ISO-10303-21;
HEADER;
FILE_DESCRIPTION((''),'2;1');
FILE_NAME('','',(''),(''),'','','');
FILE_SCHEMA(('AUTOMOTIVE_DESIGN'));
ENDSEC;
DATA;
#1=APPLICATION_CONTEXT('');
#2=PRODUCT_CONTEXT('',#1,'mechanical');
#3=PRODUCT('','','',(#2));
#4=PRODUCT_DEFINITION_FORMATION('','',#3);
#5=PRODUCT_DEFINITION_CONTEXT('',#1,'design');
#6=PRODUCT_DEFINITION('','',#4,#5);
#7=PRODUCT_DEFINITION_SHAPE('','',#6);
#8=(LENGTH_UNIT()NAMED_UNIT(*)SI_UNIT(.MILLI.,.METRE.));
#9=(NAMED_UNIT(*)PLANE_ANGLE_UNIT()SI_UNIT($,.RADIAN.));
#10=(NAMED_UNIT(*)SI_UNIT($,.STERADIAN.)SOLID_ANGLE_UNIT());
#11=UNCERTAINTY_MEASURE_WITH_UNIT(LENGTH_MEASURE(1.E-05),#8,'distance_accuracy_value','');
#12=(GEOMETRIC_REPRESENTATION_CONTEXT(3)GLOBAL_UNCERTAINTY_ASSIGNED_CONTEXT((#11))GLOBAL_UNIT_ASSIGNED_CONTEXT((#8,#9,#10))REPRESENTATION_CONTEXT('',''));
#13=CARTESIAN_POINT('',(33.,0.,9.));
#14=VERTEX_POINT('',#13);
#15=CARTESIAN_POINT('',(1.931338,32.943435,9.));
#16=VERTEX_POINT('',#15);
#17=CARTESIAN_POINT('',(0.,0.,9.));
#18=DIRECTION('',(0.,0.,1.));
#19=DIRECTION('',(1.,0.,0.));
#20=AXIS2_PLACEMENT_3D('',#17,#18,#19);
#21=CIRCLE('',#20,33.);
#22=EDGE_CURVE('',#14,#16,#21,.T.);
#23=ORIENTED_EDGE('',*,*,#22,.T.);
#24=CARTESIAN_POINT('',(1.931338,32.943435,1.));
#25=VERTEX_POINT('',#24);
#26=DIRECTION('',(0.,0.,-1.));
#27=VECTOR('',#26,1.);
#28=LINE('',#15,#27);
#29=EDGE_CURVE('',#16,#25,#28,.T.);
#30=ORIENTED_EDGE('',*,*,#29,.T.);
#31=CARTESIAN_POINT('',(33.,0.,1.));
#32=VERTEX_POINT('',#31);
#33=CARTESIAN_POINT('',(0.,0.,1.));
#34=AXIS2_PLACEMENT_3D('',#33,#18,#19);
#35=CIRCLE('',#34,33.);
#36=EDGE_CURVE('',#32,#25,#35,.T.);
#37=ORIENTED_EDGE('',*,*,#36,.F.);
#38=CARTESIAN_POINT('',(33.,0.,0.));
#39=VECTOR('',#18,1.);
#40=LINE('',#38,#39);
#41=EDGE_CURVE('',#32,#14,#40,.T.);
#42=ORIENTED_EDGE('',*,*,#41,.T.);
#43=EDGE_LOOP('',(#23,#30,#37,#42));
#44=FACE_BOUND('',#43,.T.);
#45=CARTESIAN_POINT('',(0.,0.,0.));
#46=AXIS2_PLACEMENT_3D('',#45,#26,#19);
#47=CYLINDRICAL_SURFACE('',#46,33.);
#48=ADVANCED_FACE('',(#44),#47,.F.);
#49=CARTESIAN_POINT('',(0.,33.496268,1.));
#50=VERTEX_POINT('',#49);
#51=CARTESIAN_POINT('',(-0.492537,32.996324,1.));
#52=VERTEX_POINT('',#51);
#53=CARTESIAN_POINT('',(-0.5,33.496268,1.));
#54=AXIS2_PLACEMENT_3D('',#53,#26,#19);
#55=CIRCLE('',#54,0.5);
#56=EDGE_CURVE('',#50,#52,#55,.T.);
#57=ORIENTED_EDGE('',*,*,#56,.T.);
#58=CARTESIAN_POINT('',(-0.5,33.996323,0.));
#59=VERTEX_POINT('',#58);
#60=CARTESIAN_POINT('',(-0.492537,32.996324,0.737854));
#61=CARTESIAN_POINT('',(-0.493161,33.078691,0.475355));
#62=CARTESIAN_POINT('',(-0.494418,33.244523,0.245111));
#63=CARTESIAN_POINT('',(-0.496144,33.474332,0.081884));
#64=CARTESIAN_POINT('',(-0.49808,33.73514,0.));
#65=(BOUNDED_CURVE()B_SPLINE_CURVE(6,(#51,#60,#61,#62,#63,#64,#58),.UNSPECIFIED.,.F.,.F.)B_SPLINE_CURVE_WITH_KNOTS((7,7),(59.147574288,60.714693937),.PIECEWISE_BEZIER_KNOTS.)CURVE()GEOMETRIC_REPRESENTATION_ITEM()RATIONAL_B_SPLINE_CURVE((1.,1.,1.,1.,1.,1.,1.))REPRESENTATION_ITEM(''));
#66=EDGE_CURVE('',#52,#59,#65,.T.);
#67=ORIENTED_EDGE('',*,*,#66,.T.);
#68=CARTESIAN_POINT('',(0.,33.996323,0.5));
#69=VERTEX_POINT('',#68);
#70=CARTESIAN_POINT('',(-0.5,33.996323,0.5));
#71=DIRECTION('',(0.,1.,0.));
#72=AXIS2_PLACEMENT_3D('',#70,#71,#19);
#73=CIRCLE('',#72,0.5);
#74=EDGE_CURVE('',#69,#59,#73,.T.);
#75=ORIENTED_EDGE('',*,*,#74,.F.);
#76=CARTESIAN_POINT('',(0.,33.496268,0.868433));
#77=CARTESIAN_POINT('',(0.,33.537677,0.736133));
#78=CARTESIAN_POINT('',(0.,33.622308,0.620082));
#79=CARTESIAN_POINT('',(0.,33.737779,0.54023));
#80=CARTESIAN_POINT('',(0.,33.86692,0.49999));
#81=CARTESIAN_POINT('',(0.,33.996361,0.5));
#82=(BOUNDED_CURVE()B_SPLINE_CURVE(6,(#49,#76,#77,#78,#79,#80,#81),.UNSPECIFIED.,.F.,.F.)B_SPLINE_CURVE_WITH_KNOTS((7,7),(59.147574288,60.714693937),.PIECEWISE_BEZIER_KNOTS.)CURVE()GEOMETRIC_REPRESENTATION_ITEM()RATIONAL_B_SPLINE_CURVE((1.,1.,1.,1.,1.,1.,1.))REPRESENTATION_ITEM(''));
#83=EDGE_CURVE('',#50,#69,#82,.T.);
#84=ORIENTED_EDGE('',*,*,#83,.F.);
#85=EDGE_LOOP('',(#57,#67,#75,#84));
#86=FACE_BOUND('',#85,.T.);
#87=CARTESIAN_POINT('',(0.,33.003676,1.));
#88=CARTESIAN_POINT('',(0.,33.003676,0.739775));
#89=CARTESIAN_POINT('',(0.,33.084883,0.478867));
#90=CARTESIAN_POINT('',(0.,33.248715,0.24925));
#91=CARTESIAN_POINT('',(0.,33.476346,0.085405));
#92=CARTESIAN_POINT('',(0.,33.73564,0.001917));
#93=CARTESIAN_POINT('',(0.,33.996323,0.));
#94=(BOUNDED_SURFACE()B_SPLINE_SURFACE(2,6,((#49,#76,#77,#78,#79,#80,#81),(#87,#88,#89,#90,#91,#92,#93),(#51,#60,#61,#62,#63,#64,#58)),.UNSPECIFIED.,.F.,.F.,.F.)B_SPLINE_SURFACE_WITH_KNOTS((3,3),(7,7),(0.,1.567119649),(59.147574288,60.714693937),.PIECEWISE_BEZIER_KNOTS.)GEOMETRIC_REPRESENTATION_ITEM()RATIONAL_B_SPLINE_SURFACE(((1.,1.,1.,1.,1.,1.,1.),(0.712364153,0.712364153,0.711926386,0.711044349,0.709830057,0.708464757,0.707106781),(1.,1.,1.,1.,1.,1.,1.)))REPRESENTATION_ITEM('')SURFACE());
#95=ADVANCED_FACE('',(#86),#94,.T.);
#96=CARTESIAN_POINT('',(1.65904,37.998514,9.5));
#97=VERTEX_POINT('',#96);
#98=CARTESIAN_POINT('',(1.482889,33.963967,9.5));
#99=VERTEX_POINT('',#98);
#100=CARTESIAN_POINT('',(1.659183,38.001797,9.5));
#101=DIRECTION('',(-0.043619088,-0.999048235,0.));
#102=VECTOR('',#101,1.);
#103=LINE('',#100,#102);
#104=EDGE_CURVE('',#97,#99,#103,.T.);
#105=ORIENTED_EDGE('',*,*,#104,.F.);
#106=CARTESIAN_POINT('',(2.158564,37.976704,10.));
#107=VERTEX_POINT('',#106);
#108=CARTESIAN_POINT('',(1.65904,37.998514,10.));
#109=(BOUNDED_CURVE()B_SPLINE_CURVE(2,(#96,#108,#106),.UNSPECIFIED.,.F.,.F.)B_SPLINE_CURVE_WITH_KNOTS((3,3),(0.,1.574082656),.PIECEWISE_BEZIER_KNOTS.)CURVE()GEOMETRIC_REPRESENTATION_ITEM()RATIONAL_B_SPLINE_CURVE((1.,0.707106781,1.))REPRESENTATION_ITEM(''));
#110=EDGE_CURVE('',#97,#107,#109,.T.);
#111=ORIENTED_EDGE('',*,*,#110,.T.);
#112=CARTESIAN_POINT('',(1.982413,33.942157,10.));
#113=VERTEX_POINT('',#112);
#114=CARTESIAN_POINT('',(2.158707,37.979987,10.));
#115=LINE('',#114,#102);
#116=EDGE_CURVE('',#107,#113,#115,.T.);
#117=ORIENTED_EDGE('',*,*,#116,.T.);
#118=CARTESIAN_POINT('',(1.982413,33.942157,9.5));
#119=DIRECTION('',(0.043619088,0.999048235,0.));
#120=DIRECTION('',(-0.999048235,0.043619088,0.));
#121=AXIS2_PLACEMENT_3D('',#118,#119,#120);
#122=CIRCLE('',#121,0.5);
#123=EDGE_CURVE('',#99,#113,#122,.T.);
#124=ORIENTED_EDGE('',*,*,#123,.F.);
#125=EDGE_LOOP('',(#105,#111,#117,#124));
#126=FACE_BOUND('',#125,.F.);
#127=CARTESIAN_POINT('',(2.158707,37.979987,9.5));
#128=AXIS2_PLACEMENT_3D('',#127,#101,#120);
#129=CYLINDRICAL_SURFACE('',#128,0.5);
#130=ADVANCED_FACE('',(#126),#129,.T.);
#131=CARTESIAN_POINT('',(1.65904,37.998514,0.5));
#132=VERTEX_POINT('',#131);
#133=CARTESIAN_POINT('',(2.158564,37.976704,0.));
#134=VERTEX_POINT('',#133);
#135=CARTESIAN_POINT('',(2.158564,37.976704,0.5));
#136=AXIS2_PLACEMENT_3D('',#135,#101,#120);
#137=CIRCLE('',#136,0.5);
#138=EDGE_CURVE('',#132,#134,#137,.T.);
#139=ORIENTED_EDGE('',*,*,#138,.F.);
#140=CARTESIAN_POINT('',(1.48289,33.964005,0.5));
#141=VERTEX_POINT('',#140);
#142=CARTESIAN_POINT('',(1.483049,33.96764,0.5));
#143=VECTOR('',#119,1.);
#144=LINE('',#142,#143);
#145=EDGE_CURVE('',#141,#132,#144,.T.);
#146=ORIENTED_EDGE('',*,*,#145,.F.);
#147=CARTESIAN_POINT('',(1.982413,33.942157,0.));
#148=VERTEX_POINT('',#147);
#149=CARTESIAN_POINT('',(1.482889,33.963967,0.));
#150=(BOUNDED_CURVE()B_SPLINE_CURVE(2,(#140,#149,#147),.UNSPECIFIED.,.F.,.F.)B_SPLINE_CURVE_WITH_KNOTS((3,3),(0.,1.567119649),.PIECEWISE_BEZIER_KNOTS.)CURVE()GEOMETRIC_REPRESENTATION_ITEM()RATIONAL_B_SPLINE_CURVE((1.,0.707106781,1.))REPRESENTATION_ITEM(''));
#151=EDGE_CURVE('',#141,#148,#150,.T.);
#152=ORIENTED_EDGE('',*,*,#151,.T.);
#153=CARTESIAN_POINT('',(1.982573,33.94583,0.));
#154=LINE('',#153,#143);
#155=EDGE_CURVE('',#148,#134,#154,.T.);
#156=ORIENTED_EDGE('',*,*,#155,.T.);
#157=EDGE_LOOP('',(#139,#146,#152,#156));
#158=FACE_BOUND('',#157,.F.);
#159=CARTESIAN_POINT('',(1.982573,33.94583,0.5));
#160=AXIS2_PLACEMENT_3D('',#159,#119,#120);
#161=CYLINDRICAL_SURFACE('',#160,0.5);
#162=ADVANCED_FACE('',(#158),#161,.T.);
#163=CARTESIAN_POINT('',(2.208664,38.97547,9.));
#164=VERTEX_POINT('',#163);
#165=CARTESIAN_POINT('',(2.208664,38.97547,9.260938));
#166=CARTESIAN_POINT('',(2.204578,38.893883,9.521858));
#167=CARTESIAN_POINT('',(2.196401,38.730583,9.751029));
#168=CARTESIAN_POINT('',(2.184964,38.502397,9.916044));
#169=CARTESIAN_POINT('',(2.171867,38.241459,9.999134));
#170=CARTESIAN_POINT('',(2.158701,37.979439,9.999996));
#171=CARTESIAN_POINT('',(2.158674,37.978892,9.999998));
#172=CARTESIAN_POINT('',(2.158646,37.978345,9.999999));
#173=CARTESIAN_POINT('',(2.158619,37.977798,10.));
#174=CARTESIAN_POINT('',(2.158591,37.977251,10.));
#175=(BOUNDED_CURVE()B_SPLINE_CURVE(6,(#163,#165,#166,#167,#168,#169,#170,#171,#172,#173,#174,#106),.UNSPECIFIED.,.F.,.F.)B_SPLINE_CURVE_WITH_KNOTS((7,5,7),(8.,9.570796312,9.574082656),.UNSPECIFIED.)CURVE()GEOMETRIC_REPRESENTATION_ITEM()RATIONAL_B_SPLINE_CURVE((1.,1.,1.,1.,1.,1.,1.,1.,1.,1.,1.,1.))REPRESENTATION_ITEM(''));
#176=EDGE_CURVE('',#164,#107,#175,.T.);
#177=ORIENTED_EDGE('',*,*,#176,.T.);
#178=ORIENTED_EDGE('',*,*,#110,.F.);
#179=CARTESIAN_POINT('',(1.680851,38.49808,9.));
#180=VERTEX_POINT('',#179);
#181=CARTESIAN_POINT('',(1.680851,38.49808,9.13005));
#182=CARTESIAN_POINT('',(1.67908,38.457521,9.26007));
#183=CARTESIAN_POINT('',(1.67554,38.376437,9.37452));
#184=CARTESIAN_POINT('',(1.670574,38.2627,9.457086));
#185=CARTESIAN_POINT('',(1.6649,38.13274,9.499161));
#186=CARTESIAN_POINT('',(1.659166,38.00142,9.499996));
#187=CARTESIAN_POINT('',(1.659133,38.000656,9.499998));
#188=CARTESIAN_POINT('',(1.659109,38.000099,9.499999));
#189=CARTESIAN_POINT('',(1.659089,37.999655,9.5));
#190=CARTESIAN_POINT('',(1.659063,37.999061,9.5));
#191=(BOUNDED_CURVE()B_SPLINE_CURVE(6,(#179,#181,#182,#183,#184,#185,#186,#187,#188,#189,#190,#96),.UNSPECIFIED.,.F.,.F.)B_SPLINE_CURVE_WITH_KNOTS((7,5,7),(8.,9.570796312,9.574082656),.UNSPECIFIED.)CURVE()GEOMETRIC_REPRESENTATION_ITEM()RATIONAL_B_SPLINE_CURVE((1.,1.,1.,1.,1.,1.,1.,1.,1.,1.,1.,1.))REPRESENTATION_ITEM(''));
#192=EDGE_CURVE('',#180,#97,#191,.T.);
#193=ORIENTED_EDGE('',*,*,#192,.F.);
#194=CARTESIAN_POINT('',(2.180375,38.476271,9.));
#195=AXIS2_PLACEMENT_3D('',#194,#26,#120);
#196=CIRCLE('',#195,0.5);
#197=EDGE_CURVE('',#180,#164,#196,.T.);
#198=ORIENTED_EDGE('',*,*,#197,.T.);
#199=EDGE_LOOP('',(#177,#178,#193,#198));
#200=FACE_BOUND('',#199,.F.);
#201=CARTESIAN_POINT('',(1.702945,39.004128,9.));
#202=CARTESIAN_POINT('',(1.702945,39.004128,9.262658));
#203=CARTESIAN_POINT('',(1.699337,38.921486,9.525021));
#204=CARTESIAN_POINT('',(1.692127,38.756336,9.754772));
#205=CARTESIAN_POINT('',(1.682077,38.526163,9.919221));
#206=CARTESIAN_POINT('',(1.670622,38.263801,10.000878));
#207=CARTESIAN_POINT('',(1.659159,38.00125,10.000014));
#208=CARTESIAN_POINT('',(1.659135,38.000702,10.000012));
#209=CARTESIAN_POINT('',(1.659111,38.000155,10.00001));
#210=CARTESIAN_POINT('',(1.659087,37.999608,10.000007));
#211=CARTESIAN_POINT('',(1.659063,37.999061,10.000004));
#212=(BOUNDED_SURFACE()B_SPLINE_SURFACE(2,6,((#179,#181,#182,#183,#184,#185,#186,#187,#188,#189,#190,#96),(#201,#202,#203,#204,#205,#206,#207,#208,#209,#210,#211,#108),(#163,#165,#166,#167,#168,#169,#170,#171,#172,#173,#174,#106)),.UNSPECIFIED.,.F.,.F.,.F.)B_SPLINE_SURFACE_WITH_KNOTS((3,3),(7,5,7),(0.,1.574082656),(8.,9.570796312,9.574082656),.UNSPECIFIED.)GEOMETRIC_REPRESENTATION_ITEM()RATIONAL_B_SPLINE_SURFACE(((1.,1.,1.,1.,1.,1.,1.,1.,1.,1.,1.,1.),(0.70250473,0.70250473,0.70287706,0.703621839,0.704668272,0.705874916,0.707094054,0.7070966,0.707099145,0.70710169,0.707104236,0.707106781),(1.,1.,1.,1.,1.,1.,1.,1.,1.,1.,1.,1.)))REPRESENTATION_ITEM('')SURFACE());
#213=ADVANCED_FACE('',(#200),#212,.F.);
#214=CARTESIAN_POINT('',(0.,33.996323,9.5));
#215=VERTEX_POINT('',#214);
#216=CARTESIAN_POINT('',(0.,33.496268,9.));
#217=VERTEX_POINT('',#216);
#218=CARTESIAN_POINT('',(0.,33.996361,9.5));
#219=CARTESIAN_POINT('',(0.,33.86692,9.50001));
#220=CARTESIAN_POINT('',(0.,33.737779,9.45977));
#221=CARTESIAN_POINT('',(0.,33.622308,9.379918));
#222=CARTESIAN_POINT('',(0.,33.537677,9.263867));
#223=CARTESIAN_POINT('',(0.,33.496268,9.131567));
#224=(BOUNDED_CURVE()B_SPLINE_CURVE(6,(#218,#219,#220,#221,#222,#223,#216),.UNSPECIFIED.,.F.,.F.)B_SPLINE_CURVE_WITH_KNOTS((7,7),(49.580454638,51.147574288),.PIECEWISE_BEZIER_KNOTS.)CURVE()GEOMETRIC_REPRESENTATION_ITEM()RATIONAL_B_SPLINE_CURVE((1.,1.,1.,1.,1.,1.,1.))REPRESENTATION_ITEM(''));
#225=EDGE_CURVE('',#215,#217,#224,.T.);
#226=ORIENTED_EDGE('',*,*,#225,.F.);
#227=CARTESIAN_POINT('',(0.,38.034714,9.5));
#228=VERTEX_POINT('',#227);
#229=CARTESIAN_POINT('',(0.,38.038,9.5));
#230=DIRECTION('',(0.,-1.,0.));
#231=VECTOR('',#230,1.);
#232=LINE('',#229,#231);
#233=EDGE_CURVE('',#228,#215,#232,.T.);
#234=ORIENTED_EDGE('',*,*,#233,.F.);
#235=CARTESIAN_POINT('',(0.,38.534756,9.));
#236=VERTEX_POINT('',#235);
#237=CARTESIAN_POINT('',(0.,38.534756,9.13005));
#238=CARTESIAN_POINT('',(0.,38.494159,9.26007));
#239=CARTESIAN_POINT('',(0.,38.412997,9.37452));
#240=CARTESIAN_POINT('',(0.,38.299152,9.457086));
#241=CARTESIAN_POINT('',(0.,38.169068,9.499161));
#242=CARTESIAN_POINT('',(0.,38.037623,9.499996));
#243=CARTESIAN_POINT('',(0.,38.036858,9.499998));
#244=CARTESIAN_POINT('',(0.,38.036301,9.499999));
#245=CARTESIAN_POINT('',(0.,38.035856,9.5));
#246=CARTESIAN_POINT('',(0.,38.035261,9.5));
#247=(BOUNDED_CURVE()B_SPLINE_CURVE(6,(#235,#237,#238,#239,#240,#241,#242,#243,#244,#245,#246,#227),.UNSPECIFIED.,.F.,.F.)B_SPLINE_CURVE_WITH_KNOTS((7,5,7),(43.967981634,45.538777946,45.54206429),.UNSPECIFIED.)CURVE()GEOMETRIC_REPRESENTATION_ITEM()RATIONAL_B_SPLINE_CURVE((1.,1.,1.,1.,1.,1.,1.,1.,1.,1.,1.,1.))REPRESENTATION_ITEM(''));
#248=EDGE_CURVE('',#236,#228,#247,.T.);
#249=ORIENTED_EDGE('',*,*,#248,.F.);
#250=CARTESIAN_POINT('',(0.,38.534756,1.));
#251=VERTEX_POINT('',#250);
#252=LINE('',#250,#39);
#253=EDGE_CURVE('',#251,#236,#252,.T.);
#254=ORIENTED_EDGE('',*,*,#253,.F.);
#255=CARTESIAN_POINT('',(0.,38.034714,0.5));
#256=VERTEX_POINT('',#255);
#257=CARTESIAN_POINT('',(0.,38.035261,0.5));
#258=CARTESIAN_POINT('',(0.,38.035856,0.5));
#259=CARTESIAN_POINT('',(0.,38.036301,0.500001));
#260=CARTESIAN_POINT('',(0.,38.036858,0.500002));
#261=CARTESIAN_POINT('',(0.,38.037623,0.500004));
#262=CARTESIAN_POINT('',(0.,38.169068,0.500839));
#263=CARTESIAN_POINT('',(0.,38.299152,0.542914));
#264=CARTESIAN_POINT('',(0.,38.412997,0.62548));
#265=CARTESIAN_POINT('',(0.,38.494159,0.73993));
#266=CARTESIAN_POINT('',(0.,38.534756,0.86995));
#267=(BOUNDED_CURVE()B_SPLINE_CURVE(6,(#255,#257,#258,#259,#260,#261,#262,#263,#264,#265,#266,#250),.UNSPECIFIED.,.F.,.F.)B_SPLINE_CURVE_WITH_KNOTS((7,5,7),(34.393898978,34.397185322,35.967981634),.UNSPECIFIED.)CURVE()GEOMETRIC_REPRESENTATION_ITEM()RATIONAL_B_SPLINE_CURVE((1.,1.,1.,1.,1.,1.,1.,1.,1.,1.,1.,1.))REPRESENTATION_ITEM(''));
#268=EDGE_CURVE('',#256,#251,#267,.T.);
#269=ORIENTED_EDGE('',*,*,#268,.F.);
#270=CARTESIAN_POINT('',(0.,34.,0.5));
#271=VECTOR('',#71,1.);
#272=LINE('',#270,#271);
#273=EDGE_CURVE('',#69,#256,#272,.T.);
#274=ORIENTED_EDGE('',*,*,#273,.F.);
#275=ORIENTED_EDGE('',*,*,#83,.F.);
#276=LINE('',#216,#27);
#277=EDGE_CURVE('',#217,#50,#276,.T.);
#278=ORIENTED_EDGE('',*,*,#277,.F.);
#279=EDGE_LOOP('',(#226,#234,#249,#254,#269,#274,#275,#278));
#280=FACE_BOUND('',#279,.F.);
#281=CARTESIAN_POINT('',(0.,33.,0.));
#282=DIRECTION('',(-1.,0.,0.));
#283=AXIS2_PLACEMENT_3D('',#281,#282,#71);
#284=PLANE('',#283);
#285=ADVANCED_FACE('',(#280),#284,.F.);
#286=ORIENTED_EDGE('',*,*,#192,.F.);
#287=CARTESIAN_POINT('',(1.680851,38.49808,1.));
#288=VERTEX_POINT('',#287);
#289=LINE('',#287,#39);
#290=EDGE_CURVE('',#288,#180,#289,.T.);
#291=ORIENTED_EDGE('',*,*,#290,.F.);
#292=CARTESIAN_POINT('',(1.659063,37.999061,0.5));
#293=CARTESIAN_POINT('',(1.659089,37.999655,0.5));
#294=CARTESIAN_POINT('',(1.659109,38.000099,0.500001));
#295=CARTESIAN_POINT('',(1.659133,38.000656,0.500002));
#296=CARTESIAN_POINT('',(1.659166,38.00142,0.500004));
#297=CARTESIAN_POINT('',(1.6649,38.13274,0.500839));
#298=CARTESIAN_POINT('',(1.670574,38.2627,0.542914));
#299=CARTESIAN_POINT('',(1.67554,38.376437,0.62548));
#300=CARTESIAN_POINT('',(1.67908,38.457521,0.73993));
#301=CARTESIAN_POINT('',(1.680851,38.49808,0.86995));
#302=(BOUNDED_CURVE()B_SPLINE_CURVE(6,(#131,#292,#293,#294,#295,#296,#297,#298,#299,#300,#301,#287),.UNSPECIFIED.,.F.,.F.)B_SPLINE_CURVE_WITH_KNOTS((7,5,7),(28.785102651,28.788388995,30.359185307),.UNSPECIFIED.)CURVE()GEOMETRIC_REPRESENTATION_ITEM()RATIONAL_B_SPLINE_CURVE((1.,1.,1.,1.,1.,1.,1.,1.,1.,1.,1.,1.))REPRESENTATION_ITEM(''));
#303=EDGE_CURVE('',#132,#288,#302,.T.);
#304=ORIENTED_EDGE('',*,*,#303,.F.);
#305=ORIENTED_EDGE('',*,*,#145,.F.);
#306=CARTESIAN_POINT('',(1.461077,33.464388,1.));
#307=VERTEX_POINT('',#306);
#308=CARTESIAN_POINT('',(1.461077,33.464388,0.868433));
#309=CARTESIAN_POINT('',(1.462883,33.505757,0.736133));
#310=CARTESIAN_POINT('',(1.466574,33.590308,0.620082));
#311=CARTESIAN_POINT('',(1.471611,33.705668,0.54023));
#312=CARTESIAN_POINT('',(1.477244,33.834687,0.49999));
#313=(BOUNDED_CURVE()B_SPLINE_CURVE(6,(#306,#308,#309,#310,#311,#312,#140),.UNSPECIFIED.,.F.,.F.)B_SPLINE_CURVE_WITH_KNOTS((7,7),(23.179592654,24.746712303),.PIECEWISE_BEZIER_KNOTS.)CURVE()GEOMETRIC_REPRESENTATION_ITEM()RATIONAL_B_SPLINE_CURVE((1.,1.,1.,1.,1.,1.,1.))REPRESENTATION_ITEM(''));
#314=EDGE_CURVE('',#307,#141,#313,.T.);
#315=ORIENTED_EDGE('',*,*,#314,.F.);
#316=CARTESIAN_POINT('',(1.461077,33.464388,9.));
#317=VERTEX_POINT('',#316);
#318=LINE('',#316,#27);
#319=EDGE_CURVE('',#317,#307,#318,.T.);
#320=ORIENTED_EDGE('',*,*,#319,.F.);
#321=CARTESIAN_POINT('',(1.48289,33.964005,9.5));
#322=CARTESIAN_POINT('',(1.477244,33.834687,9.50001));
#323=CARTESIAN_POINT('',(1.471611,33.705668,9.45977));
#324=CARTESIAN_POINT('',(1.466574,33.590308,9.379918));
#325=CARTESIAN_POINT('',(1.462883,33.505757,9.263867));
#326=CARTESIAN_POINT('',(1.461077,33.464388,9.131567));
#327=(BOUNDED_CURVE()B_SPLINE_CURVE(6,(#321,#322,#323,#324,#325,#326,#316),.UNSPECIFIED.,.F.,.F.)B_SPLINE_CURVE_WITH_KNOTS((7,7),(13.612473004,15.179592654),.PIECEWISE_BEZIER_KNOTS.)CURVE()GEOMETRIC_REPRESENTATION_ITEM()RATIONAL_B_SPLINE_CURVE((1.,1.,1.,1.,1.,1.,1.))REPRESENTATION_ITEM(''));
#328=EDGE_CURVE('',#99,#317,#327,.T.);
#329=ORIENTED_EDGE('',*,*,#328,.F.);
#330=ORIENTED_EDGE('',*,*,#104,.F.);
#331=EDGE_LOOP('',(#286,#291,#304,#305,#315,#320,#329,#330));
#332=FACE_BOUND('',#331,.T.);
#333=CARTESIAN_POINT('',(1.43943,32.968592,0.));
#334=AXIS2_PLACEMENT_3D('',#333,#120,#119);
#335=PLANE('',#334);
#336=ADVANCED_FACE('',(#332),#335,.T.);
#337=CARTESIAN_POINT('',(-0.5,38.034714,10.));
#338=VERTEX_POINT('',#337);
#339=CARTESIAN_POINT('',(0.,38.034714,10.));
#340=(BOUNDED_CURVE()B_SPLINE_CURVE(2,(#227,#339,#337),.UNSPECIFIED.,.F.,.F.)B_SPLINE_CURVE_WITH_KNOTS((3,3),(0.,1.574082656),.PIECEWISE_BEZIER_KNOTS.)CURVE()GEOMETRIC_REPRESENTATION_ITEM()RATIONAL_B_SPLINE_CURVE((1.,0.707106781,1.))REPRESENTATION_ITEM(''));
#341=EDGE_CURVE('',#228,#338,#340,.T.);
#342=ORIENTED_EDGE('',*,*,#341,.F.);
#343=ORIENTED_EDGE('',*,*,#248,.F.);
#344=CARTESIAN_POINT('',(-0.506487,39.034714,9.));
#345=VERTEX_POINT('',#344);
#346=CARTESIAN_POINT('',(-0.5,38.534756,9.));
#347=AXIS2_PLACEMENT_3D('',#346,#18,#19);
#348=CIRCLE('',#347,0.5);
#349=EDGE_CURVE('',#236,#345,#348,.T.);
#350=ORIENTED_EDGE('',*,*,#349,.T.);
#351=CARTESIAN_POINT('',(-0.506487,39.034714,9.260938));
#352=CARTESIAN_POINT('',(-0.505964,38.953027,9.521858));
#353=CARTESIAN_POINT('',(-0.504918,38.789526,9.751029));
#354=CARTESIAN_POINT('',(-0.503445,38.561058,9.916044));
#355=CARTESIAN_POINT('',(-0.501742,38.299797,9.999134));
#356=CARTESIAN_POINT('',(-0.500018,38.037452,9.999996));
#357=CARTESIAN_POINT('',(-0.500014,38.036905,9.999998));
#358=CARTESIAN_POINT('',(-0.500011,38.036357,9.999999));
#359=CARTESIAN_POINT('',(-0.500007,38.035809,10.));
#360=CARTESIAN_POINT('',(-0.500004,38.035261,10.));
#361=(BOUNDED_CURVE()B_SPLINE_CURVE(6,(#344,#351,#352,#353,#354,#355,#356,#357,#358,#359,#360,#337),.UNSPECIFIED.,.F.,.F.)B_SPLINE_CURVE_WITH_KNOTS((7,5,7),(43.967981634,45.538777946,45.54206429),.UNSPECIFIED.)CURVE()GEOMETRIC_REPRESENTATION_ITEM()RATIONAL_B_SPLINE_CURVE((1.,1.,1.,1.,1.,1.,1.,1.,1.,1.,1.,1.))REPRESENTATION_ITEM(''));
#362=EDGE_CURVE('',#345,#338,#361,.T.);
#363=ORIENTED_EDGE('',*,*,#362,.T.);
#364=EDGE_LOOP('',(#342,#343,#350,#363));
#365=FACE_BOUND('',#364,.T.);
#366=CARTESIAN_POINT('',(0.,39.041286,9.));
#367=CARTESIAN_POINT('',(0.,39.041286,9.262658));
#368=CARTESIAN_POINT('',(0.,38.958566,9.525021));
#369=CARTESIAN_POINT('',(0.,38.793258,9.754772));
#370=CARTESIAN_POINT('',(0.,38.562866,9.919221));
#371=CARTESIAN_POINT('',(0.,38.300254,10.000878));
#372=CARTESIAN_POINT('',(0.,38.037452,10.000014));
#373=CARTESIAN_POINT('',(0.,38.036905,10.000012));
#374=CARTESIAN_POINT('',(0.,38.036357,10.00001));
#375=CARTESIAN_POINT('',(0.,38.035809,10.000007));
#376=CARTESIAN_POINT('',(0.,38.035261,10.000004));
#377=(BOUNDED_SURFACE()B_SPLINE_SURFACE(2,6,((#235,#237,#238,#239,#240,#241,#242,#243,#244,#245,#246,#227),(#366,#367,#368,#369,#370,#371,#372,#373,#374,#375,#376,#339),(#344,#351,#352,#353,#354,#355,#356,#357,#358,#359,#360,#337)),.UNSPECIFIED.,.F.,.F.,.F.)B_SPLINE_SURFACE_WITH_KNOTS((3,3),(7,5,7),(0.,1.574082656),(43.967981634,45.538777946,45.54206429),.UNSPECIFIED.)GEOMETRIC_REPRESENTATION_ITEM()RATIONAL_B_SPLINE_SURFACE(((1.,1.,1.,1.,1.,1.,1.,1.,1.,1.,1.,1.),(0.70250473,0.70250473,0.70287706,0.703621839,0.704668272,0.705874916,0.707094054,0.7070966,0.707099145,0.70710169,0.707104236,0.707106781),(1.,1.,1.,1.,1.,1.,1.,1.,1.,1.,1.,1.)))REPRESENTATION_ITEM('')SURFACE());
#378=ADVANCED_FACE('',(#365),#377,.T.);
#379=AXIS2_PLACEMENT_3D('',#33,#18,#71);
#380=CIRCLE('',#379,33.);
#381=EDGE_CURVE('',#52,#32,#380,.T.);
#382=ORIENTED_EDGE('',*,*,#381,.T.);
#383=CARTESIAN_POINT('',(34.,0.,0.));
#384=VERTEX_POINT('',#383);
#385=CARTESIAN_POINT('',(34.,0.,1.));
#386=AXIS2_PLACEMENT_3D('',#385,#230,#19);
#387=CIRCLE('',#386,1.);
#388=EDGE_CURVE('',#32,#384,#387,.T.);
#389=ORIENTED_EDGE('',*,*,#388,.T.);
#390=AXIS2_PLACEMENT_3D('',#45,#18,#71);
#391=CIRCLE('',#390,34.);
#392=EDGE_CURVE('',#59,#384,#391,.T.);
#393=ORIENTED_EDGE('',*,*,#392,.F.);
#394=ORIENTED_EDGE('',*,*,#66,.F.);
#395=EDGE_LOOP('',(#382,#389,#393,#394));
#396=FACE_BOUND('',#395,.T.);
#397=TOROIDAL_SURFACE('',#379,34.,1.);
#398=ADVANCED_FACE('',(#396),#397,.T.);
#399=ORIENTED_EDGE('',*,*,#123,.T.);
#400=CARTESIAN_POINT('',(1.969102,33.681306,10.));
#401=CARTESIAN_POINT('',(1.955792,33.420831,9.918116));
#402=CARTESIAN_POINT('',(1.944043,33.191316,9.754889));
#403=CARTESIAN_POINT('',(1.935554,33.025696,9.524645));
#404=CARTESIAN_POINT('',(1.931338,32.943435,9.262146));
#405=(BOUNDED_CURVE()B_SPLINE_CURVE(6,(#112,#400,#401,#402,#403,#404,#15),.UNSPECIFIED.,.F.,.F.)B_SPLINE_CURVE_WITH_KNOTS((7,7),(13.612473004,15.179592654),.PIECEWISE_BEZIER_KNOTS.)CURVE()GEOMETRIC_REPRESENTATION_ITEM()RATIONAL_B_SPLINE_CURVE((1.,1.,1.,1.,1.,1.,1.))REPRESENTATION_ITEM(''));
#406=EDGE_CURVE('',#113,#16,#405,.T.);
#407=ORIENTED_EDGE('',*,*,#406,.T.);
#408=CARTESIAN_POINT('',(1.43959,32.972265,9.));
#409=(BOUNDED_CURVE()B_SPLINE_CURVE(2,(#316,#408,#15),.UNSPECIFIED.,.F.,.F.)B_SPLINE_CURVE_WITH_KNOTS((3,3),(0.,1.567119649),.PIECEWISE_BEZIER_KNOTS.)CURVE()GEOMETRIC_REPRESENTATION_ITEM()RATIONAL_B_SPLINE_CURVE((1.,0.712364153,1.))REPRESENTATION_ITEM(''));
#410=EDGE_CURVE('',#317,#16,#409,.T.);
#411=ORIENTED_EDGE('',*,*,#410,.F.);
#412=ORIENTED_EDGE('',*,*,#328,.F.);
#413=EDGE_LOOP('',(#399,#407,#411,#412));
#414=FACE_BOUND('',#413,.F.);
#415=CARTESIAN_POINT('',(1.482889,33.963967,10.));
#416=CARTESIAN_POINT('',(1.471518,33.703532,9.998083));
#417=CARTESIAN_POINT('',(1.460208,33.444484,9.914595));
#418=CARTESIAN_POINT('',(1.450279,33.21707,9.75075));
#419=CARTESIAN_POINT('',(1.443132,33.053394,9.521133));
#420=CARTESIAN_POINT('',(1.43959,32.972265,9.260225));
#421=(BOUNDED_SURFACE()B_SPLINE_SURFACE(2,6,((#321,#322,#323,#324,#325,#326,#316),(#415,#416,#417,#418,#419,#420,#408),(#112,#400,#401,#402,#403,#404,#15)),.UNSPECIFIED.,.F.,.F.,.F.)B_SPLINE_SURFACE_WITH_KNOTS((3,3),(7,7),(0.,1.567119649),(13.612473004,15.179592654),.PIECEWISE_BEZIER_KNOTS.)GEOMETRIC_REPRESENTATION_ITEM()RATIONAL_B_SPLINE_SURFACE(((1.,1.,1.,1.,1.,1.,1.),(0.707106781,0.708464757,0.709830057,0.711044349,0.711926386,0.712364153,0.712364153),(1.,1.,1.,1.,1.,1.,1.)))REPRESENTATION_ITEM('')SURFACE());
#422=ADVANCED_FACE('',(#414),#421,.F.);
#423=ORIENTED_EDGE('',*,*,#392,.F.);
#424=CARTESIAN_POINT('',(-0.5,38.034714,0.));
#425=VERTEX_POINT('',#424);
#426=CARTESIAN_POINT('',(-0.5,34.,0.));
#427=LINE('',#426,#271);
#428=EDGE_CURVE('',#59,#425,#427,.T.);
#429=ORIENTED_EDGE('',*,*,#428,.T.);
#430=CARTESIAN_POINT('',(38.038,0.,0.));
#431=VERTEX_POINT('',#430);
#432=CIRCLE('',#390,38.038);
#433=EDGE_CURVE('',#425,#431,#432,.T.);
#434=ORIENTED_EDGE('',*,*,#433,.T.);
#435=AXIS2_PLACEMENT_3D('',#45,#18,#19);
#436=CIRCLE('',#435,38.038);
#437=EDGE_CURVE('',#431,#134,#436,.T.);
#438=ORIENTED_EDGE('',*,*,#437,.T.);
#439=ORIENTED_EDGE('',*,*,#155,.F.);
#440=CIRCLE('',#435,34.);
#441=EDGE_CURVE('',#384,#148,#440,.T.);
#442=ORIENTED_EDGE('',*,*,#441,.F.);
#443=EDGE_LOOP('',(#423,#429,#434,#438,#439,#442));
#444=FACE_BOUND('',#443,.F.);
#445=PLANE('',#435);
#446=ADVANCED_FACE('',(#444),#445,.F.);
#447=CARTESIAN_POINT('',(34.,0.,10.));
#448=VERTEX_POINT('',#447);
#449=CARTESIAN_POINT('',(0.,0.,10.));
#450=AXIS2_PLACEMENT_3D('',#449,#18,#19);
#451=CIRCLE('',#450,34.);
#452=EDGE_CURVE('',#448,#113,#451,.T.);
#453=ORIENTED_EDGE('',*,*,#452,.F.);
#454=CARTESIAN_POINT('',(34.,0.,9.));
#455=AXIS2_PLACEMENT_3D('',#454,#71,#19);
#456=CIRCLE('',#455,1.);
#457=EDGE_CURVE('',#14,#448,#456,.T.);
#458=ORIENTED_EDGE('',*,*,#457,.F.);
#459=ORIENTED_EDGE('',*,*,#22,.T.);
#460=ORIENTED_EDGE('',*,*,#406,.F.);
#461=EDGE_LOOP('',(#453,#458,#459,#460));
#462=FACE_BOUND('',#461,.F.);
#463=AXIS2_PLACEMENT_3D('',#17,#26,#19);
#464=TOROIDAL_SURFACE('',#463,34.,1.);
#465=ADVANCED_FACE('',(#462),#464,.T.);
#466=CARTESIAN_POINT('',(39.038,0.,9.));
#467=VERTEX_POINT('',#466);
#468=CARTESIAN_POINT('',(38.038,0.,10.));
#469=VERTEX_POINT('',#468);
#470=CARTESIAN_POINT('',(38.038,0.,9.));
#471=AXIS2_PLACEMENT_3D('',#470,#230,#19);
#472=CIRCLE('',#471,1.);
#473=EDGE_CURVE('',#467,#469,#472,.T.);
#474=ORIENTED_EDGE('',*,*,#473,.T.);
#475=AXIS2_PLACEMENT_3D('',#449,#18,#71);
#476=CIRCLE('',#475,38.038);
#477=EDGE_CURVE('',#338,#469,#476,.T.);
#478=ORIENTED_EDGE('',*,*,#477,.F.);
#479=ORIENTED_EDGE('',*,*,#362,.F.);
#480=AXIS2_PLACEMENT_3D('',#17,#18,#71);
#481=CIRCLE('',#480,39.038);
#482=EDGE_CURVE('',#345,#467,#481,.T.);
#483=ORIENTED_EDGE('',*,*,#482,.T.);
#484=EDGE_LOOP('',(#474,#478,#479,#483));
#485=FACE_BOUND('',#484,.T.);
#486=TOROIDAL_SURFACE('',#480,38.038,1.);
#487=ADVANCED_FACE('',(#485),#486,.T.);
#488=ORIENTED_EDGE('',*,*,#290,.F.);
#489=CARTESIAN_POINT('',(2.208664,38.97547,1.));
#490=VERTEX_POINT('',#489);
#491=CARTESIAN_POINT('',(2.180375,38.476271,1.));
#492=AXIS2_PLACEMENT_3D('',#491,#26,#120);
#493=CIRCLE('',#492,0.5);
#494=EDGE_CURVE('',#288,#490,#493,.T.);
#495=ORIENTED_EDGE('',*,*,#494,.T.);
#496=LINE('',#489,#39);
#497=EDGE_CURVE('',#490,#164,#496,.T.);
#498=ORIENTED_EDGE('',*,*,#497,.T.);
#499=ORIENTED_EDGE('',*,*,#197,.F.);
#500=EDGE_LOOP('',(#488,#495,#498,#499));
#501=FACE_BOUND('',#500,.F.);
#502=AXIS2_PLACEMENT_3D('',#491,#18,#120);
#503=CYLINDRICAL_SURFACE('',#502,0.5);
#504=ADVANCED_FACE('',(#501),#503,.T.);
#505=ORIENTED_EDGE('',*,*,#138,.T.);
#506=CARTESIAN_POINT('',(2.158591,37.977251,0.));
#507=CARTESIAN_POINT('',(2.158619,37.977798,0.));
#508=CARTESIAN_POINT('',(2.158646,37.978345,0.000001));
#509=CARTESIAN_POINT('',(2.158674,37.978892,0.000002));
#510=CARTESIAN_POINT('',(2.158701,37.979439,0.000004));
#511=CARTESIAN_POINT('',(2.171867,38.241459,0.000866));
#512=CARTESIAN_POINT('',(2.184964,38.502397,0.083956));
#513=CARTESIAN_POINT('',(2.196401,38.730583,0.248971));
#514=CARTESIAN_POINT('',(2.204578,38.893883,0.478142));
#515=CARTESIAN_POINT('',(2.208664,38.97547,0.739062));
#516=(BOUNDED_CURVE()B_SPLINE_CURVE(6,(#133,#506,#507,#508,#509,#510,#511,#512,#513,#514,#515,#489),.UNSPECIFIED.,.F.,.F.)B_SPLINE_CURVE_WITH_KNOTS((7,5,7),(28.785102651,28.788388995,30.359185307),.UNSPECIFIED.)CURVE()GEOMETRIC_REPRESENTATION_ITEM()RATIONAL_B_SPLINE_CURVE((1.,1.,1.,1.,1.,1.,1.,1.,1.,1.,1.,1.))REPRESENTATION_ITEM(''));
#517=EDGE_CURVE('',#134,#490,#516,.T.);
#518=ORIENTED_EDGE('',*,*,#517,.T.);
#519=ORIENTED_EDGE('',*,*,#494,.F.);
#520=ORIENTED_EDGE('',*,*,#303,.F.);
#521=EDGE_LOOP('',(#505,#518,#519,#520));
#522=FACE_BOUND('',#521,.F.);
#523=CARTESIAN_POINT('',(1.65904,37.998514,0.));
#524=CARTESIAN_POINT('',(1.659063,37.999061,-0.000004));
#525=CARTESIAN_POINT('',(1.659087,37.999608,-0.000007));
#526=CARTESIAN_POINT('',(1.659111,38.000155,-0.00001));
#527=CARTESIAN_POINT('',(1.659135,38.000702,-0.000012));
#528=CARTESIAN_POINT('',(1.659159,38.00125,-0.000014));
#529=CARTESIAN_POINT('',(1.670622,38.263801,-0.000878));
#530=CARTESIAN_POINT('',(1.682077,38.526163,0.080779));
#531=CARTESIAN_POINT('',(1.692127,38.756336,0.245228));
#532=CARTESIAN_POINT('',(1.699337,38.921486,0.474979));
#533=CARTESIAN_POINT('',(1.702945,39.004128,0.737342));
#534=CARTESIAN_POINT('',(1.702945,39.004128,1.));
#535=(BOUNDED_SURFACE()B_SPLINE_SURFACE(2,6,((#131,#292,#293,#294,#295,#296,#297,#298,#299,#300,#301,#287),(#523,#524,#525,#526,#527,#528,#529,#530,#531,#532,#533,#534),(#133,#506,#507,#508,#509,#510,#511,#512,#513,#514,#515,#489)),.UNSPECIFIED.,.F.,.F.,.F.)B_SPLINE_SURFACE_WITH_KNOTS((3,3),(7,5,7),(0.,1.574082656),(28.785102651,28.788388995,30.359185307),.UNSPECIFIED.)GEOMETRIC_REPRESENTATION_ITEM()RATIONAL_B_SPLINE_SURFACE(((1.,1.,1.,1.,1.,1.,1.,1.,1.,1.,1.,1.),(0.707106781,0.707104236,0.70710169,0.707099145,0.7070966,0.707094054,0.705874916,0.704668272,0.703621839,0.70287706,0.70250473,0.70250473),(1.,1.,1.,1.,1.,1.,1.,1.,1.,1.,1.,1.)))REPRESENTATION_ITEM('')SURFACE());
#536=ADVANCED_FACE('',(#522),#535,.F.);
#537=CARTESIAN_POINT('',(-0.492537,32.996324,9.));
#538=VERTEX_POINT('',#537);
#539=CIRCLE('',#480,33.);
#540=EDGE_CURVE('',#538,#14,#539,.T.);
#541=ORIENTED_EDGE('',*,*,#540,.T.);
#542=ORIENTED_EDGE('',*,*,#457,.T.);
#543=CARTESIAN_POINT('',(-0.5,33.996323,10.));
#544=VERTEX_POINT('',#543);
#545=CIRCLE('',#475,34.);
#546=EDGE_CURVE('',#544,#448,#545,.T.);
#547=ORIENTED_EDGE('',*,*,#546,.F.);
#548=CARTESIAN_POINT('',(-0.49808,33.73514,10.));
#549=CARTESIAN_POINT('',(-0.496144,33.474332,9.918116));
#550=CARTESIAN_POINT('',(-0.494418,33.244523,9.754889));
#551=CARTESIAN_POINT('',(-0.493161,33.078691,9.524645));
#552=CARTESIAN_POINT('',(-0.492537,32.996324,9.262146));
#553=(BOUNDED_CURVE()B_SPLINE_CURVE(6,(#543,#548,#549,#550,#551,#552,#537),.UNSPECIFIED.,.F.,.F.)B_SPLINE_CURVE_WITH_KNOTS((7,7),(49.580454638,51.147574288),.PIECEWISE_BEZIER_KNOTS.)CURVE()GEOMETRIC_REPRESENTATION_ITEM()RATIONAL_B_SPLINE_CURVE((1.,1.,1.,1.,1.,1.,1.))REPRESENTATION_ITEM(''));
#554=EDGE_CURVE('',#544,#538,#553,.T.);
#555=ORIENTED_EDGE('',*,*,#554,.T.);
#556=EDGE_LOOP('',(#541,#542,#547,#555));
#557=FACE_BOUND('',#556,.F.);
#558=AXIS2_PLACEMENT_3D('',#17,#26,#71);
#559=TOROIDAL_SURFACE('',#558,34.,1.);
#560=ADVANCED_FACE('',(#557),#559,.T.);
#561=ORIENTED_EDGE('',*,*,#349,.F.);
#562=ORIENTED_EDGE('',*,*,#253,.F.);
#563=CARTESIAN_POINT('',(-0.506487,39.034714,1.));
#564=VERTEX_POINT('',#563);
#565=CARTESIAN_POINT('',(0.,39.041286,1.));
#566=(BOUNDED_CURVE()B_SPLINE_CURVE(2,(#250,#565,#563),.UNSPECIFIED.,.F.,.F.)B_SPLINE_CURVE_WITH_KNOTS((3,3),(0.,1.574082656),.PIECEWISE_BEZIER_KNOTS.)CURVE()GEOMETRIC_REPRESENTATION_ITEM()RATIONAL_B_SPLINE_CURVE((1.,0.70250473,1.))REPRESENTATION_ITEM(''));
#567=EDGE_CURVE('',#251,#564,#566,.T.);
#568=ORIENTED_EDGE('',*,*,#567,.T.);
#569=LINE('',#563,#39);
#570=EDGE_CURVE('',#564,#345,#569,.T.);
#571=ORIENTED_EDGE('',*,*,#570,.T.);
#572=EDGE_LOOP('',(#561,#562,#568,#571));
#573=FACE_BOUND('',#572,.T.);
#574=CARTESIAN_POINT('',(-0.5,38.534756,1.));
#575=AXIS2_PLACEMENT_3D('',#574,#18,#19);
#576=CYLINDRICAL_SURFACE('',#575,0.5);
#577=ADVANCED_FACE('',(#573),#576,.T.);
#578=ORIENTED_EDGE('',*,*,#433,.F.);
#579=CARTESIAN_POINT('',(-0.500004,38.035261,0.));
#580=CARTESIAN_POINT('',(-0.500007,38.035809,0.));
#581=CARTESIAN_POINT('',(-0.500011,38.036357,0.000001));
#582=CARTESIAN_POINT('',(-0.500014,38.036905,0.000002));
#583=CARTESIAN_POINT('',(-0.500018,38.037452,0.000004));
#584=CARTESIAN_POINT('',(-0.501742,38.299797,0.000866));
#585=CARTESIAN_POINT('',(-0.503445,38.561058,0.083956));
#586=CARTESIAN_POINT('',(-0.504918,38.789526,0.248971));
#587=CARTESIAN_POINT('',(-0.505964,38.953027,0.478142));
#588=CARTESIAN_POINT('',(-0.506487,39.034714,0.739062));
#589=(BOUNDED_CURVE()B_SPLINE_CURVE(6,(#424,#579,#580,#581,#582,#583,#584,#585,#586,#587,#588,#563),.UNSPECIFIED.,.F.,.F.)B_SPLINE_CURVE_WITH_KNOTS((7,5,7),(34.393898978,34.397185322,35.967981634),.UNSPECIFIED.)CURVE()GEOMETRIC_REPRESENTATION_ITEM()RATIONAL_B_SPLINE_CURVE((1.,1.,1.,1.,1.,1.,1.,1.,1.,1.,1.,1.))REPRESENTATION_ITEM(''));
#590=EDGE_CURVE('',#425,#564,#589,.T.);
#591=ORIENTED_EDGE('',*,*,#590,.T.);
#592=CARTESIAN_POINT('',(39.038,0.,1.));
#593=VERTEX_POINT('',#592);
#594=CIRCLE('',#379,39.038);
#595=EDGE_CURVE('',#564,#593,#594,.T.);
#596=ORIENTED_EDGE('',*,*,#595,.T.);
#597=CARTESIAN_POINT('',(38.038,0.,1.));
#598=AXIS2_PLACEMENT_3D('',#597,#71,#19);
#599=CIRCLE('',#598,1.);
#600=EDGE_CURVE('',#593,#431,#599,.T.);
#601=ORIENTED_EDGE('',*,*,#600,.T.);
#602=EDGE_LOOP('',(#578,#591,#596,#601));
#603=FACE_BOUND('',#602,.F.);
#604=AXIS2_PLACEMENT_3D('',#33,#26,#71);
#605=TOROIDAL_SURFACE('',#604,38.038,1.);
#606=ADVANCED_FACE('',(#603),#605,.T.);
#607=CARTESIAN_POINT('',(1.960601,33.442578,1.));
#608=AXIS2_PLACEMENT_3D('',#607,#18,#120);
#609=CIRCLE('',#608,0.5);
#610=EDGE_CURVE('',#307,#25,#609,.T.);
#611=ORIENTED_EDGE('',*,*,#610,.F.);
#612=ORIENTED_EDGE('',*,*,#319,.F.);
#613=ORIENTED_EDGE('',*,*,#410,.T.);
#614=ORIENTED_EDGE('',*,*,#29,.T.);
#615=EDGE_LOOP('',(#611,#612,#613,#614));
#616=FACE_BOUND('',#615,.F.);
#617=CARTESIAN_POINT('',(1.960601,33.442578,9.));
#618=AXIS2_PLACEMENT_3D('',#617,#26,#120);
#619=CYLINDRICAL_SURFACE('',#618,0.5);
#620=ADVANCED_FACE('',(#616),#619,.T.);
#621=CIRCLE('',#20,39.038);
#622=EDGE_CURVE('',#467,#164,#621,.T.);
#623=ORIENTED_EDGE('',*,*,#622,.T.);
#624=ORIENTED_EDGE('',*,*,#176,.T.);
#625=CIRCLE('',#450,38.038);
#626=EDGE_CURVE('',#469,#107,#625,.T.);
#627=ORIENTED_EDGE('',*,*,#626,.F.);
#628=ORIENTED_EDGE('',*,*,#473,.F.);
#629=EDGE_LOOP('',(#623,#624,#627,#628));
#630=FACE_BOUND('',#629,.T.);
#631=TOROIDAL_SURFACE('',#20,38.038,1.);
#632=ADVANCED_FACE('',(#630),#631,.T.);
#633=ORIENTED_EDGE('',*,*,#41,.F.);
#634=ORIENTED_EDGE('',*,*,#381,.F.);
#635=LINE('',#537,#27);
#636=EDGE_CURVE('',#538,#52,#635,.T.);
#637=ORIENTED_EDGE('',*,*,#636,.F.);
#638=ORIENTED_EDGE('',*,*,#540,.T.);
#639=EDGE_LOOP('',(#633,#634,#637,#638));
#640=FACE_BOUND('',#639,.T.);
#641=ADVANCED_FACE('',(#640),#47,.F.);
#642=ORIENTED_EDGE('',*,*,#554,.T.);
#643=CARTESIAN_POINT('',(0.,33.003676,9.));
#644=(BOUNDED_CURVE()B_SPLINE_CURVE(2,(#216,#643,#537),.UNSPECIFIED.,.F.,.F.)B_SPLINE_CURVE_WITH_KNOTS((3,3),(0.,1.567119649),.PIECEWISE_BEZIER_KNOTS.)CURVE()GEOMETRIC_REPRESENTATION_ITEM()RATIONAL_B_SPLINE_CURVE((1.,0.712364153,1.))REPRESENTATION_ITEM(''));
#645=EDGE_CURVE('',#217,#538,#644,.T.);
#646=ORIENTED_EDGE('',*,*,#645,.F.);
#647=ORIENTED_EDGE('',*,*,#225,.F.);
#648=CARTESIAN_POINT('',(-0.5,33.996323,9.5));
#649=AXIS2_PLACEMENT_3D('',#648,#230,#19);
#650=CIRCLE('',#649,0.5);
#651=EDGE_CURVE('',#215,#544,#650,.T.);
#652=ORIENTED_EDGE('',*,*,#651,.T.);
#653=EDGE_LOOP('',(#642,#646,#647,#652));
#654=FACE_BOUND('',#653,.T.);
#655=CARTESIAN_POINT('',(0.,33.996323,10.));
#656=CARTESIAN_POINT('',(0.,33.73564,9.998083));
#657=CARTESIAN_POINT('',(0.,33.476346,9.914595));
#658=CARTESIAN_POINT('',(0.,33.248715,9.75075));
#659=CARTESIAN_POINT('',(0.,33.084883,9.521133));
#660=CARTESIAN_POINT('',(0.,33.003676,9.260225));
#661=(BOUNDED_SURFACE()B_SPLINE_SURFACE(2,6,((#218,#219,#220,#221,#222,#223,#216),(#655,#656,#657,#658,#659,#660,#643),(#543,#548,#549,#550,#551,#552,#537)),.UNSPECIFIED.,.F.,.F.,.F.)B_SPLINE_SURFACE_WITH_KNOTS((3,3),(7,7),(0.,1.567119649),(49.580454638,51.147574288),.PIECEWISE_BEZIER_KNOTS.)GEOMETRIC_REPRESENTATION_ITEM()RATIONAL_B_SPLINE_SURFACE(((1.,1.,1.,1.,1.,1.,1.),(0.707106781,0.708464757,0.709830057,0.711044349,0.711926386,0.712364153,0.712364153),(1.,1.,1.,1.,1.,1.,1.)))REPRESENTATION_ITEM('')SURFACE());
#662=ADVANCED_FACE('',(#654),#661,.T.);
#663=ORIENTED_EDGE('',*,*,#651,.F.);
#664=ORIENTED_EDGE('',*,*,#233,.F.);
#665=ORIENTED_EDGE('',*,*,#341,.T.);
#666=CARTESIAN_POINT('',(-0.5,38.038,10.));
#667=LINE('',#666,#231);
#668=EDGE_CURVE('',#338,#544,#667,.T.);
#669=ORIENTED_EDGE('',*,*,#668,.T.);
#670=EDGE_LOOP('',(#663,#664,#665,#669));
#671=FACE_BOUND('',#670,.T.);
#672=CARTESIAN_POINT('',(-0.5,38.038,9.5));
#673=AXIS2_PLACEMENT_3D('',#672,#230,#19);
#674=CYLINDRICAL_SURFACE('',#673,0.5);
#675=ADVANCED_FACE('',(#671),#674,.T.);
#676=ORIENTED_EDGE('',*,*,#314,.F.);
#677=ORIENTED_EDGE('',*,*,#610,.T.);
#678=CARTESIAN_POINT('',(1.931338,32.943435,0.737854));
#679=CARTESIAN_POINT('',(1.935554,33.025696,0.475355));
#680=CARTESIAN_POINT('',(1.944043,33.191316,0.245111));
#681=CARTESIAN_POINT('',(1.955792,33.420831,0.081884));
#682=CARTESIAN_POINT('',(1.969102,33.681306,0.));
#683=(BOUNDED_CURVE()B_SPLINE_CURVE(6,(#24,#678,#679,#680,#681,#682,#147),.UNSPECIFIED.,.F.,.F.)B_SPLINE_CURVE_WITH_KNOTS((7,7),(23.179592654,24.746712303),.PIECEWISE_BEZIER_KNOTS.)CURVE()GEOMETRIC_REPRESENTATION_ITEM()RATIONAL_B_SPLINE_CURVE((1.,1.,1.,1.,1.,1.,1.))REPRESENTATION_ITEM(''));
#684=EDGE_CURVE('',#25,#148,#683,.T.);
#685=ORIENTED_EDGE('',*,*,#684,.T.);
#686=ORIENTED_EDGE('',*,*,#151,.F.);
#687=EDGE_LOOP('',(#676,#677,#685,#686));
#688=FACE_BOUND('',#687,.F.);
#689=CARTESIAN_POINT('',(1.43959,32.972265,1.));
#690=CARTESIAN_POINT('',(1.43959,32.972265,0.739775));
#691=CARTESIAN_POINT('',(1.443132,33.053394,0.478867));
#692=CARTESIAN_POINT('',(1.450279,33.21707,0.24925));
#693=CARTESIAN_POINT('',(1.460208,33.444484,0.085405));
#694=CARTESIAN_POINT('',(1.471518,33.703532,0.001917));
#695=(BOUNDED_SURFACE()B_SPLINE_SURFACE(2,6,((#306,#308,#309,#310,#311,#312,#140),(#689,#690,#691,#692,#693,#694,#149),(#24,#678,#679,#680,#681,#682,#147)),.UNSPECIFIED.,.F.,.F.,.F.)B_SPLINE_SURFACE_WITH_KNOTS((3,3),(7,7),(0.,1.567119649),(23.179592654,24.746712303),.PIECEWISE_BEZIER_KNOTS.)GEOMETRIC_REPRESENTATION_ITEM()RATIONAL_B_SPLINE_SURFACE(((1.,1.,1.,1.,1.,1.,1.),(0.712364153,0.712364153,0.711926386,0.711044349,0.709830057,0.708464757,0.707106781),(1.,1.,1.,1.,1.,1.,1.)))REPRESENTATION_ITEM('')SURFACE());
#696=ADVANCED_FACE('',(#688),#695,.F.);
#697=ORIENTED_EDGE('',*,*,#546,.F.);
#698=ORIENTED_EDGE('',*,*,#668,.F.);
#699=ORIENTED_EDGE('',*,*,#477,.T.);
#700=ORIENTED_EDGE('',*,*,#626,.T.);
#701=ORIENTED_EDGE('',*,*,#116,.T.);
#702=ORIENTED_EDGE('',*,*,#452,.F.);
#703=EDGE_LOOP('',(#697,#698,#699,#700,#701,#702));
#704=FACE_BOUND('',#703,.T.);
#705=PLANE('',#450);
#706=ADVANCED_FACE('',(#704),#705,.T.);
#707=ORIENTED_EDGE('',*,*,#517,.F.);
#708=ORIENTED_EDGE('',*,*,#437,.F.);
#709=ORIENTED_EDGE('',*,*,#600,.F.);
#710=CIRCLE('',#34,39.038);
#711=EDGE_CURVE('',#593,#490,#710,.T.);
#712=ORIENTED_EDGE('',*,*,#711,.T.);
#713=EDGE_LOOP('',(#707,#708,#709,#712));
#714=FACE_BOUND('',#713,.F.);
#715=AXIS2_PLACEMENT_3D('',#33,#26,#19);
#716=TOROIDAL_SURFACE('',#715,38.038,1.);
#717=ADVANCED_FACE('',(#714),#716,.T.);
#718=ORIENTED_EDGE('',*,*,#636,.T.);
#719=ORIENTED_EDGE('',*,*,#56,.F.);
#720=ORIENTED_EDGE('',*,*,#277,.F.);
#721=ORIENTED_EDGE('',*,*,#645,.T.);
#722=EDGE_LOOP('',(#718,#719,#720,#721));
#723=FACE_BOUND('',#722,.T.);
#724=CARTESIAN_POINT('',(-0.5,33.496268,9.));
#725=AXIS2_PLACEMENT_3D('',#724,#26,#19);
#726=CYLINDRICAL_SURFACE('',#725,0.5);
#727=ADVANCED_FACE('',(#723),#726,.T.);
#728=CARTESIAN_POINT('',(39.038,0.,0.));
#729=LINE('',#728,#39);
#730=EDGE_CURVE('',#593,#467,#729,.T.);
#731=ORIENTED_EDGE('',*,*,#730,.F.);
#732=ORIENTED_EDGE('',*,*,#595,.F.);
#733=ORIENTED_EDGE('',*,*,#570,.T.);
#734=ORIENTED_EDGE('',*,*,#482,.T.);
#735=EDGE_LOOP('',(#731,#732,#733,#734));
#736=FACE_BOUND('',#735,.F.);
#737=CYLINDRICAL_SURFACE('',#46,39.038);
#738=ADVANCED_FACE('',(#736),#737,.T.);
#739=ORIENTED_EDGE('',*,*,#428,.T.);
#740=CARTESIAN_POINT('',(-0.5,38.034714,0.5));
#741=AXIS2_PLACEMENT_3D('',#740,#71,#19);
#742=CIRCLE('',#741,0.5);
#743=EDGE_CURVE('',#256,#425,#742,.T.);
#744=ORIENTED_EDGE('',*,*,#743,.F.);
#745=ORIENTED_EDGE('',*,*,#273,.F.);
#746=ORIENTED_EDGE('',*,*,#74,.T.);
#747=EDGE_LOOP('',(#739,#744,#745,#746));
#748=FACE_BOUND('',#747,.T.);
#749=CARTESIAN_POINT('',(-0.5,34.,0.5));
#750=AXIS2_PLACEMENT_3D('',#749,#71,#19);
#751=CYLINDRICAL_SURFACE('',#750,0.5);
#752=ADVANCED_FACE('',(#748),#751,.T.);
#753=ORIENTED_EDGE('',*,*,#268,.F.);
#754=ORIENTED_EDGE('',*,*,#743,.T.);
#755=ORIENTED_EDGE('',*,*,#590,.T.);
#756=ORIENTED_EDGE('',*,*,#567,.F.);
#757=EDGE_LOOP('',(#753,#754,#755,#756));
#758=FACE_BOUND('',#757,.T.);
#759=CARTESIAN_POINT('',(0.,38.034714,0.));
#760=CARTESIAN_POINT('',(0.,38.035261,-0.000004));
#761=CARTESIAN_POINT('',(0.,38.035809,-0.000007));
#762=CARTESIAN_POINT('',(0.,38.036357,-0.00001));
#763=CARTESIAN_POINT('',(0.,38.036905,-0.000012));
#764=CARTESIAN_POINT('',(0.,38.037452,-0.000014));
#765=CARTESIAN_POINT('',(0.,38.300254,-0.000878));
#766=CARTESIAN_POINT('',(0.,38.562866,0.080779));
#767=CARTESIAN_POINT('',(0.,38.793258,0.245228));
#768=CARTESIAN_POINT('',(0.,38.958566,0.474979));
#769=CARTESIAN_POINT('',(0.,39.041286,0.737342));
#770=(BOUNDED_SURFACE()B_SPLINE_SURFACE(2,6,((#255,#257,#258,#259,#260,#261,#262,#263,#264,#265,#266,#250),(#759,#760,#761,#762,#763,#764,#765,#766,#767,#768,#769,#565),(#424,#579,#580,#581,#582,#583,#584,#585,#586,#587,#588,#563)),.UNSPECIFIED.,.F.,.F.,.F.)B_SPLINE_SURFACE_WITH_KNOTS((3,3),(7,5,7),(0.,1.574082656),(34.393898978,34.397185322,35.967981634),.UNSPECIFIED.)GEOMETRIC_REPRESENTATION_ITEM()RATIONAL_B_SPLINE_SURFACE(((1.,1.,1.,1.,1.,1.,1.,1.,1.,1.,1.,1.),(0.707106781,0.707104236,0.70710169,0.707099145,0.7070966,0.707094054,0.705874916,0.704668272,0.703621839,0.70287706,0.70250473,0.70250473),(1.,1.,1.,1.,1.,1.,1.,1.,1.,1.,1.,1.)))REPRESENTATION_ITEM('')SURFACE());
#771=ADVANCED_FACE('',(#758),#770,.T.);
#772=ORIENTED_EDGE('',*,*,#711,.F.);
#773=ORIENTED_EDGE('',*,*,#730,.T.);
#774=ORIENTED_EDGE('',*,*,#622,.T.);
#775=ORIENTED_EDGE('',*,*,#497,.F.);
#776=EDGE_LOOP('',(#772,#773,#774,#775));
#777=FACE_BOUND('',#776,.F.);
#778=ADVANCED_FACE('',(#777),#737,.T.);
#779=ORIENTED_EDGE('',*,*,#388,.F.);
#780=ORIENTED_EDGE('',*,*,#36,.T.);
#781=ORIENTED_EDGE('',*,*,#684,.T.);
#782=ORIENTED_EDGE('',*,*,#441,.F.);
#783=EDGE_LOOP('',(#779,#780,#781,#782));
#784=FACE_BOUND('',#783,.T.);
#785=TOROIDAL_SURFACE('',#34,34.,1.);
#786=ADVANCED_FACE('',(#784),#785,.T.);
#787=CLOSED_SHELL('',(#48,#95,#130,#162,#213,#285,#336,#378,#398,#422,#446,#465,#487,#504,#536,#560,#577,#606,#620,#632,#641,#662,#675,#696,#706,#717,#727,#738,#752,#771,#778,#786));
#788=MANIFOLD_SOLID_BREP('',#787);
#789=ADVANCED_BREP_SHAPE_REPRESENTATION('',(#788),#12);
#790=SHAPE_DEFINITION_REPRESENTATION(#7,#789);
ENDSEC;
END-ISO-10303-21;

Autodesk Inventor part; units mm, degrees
ref_plane "YZ Plane" through (0, 0, 0) normal (1, 0, 0) x (0, 1, 0)
ref_plane "XZ Plane" through (0, 0, 0) normal (0, 1, 0) x (-1, 0, 0)
ref_plane "XY Plane" through (0, 0, 0) normal (0, 0, 1) x (1, 0, 0)
sketch "Sketch13" plane through (0, 0, 0) normal (0, 0, 1) x (1, 0, 0)
  circle A0 centre (0, 0) radius 33
  circle A1 centre (0, 0) radius 39.038
  line L0 (0, 0) -> (0, 39.038)
  line L1 (0, 0) -> (1.7028, 39.0008)
  line L2 (0, 0) -> (39.038, 0) construction
  point P0 (1.4394, 32.9686)
  point P1 (0, 33)
  dimension "d62" = 66
  dimension "d63" = 78.076
  dimension "d64" = 87.5
extrude "Extrusion12" add sketch "Sketch13" along normal blind 10 contours A0 L1 A1 L0 picked at (-2.8956, 36.6991)
fillet "Fillet14" radius 1 4 edges at (-0.8516, -39.0287, 10) (-0.7199, -32.9921, 10) (-0.8516, -39.0287, 0) (-0.7199, -32.9921, 0)
fillet "Fillet15" radius 0.5 16 edges at (1.7028, 39.0008, 5) (1.69, 38.7082, 9.7071) (1.5711, 35.9847, 10) (1.4522, 33.2612, 9.7071) (1.4394, 32.9686, 5) (1.4522, 33.2612, 0.2929) (1.5711, 35.9847, 0) (1.69, 38.7082, 0.2929) (0, 36.019, 0) (0, 33.2929, 0.2929) (0, 33, 5) (0, 33.2929, 9.7071) (0, 36.019, 10) (0, 38.7451, 9.7071) (0, 39.038, 5) (0, 38.7451, 0.2929)
sketch "Sketch4" plane through (40, -2.75, -25.3875) normal (1, 0, 0) x (0, 0, -1)
  line L0 (-51.025, 0.25) -> (-51.6313, 0.25) projected
  line L1 (-51.025, 0.25) -> (-55.267, 0.25)
  line L2 (-55.267, 0.25) -> (-55.267, 5.25)
  line L3 (-55.267, 5.25) -> (-51.025, 5.25)
  line L4 (-51.025, 5.25) -> (-51.025, 0.25)
  point P0 (-25.3875, 2.75)
  point P1 (-51.6313, 0.25)
  dimension "d33" = 4.242
  dimension "d34" = 5
sketch "Sketch5" plane through (40, -2.75, -25.3875) normal (1, 0, 0) x (0, 0, -1)
  line L0 (-51.6563, 0.25) -> (-55.267, 0.25) projected
  line L1 (-55.267, 5.25) -> (-51.6563, 5.25) projected
  line L2 (-55.267, 0.25) -> (-52.267, 0.25)
  line L3 (-52.267, 0.25) -> (-52.267, 5.25)
  line L4 (-52.267, 5.25) -> (-55.267, 5.25)
  line L5 (-55.267, 5.25) -> (-55.267, 0.25)
  point P0 (-25.3875, 2.75)
  point P1 (-55.267, 5.25)
  point P2 (-52.267, 0.25)
  dimension "d37" = 3
sketch "Sketch6" plane through (220, -2.75, -25.3875) normal (1, 0, 0) x (0, 0, -1)
  line L0 (-51.6563, 0.25) -> (-55.267, 0.25) projected
  line L1 (-55.267, 0.25) -> (-51.025, 0.25)
  line L2 (-51.025, 0.25) -> (-51.025, 5.25)
  line L3 (-51.025, 5.25) -> (-55.267, 5.25)
  line L4 (-55.267, 5.25) -> (-55.267, 0.25)
  point P0 (-25.3875, 2.75)
  dimension "d40" = 4.242
sketch "Sketch7" plane through (30, -2.75, -25.3875) normal (-1, 0, 0) x (0, 0, 1)
  line L0 (55.267, 0.25) -> (55.267, 5.25) projected
  line L1 (55.267, 0.25) -> (58.267, 0.25)
  line L2 (58.267, 0.25) -> (58.267, 5.25)
  line L3 (58.267, 5.25) -> (55.267, 5.25)
  line L4 (55.267, 5.25) -> (55.267, 0.25)
  point P0 (25.3875, 2.75)
  dimension "d43" = 3
  dimension "d44" = 5
sketch "Sketch8" plane through (30, -2.75, -25.3875) normal (-1, 0, 0) x (0, 0, 1)
  line L0 (51.6563, 0.25) -> (58.267, 0.25) projected
  line L1 (58.267, 5.25) -> (51.6563, 5.25) projected
  line L2 (58.267, 0.25) -> (57.025, 0.25)
  line L3 (57.025, 0.25) -> (57.025, 5.25)
  line L4 (57.025, 5.25) -> (58.267, 5.25)
  line L5 (58.267, 5.25) -> (58.267, 0.25)
  point P0 (25.3875, 2.75)
  point P1 (57.025, 0.25)
  dimension "d47" = 1.242
sketch "Sketch9" plane through (40, -2.75, -25.3875) normal (1, 0, 0) x (0, 0, -1)
  line L0 (-52.267, 0.25) -> (-51.025, 0.25) projected
  line L1 (-51.025, 5.25) -> (-51.025, 0.25) projected
  line L2 (-52.267, 0.25) -> (-51.025, 0.25)
  line L3 (-51.025, 0.25) -> (-51.025, 5.25)
  line L4 (-51.025, 5.25) -> (-52.267, 5.25)
  line L5 (-52.267, 5.25) -> (-52.267, 0.25)
  point P0 (-25.3875, 2.75)
properties part number "4001_Bias_Coil_Holder_Tube_Mount_Layer2_MPSv2_v2" material "Acetal Resin, White"
